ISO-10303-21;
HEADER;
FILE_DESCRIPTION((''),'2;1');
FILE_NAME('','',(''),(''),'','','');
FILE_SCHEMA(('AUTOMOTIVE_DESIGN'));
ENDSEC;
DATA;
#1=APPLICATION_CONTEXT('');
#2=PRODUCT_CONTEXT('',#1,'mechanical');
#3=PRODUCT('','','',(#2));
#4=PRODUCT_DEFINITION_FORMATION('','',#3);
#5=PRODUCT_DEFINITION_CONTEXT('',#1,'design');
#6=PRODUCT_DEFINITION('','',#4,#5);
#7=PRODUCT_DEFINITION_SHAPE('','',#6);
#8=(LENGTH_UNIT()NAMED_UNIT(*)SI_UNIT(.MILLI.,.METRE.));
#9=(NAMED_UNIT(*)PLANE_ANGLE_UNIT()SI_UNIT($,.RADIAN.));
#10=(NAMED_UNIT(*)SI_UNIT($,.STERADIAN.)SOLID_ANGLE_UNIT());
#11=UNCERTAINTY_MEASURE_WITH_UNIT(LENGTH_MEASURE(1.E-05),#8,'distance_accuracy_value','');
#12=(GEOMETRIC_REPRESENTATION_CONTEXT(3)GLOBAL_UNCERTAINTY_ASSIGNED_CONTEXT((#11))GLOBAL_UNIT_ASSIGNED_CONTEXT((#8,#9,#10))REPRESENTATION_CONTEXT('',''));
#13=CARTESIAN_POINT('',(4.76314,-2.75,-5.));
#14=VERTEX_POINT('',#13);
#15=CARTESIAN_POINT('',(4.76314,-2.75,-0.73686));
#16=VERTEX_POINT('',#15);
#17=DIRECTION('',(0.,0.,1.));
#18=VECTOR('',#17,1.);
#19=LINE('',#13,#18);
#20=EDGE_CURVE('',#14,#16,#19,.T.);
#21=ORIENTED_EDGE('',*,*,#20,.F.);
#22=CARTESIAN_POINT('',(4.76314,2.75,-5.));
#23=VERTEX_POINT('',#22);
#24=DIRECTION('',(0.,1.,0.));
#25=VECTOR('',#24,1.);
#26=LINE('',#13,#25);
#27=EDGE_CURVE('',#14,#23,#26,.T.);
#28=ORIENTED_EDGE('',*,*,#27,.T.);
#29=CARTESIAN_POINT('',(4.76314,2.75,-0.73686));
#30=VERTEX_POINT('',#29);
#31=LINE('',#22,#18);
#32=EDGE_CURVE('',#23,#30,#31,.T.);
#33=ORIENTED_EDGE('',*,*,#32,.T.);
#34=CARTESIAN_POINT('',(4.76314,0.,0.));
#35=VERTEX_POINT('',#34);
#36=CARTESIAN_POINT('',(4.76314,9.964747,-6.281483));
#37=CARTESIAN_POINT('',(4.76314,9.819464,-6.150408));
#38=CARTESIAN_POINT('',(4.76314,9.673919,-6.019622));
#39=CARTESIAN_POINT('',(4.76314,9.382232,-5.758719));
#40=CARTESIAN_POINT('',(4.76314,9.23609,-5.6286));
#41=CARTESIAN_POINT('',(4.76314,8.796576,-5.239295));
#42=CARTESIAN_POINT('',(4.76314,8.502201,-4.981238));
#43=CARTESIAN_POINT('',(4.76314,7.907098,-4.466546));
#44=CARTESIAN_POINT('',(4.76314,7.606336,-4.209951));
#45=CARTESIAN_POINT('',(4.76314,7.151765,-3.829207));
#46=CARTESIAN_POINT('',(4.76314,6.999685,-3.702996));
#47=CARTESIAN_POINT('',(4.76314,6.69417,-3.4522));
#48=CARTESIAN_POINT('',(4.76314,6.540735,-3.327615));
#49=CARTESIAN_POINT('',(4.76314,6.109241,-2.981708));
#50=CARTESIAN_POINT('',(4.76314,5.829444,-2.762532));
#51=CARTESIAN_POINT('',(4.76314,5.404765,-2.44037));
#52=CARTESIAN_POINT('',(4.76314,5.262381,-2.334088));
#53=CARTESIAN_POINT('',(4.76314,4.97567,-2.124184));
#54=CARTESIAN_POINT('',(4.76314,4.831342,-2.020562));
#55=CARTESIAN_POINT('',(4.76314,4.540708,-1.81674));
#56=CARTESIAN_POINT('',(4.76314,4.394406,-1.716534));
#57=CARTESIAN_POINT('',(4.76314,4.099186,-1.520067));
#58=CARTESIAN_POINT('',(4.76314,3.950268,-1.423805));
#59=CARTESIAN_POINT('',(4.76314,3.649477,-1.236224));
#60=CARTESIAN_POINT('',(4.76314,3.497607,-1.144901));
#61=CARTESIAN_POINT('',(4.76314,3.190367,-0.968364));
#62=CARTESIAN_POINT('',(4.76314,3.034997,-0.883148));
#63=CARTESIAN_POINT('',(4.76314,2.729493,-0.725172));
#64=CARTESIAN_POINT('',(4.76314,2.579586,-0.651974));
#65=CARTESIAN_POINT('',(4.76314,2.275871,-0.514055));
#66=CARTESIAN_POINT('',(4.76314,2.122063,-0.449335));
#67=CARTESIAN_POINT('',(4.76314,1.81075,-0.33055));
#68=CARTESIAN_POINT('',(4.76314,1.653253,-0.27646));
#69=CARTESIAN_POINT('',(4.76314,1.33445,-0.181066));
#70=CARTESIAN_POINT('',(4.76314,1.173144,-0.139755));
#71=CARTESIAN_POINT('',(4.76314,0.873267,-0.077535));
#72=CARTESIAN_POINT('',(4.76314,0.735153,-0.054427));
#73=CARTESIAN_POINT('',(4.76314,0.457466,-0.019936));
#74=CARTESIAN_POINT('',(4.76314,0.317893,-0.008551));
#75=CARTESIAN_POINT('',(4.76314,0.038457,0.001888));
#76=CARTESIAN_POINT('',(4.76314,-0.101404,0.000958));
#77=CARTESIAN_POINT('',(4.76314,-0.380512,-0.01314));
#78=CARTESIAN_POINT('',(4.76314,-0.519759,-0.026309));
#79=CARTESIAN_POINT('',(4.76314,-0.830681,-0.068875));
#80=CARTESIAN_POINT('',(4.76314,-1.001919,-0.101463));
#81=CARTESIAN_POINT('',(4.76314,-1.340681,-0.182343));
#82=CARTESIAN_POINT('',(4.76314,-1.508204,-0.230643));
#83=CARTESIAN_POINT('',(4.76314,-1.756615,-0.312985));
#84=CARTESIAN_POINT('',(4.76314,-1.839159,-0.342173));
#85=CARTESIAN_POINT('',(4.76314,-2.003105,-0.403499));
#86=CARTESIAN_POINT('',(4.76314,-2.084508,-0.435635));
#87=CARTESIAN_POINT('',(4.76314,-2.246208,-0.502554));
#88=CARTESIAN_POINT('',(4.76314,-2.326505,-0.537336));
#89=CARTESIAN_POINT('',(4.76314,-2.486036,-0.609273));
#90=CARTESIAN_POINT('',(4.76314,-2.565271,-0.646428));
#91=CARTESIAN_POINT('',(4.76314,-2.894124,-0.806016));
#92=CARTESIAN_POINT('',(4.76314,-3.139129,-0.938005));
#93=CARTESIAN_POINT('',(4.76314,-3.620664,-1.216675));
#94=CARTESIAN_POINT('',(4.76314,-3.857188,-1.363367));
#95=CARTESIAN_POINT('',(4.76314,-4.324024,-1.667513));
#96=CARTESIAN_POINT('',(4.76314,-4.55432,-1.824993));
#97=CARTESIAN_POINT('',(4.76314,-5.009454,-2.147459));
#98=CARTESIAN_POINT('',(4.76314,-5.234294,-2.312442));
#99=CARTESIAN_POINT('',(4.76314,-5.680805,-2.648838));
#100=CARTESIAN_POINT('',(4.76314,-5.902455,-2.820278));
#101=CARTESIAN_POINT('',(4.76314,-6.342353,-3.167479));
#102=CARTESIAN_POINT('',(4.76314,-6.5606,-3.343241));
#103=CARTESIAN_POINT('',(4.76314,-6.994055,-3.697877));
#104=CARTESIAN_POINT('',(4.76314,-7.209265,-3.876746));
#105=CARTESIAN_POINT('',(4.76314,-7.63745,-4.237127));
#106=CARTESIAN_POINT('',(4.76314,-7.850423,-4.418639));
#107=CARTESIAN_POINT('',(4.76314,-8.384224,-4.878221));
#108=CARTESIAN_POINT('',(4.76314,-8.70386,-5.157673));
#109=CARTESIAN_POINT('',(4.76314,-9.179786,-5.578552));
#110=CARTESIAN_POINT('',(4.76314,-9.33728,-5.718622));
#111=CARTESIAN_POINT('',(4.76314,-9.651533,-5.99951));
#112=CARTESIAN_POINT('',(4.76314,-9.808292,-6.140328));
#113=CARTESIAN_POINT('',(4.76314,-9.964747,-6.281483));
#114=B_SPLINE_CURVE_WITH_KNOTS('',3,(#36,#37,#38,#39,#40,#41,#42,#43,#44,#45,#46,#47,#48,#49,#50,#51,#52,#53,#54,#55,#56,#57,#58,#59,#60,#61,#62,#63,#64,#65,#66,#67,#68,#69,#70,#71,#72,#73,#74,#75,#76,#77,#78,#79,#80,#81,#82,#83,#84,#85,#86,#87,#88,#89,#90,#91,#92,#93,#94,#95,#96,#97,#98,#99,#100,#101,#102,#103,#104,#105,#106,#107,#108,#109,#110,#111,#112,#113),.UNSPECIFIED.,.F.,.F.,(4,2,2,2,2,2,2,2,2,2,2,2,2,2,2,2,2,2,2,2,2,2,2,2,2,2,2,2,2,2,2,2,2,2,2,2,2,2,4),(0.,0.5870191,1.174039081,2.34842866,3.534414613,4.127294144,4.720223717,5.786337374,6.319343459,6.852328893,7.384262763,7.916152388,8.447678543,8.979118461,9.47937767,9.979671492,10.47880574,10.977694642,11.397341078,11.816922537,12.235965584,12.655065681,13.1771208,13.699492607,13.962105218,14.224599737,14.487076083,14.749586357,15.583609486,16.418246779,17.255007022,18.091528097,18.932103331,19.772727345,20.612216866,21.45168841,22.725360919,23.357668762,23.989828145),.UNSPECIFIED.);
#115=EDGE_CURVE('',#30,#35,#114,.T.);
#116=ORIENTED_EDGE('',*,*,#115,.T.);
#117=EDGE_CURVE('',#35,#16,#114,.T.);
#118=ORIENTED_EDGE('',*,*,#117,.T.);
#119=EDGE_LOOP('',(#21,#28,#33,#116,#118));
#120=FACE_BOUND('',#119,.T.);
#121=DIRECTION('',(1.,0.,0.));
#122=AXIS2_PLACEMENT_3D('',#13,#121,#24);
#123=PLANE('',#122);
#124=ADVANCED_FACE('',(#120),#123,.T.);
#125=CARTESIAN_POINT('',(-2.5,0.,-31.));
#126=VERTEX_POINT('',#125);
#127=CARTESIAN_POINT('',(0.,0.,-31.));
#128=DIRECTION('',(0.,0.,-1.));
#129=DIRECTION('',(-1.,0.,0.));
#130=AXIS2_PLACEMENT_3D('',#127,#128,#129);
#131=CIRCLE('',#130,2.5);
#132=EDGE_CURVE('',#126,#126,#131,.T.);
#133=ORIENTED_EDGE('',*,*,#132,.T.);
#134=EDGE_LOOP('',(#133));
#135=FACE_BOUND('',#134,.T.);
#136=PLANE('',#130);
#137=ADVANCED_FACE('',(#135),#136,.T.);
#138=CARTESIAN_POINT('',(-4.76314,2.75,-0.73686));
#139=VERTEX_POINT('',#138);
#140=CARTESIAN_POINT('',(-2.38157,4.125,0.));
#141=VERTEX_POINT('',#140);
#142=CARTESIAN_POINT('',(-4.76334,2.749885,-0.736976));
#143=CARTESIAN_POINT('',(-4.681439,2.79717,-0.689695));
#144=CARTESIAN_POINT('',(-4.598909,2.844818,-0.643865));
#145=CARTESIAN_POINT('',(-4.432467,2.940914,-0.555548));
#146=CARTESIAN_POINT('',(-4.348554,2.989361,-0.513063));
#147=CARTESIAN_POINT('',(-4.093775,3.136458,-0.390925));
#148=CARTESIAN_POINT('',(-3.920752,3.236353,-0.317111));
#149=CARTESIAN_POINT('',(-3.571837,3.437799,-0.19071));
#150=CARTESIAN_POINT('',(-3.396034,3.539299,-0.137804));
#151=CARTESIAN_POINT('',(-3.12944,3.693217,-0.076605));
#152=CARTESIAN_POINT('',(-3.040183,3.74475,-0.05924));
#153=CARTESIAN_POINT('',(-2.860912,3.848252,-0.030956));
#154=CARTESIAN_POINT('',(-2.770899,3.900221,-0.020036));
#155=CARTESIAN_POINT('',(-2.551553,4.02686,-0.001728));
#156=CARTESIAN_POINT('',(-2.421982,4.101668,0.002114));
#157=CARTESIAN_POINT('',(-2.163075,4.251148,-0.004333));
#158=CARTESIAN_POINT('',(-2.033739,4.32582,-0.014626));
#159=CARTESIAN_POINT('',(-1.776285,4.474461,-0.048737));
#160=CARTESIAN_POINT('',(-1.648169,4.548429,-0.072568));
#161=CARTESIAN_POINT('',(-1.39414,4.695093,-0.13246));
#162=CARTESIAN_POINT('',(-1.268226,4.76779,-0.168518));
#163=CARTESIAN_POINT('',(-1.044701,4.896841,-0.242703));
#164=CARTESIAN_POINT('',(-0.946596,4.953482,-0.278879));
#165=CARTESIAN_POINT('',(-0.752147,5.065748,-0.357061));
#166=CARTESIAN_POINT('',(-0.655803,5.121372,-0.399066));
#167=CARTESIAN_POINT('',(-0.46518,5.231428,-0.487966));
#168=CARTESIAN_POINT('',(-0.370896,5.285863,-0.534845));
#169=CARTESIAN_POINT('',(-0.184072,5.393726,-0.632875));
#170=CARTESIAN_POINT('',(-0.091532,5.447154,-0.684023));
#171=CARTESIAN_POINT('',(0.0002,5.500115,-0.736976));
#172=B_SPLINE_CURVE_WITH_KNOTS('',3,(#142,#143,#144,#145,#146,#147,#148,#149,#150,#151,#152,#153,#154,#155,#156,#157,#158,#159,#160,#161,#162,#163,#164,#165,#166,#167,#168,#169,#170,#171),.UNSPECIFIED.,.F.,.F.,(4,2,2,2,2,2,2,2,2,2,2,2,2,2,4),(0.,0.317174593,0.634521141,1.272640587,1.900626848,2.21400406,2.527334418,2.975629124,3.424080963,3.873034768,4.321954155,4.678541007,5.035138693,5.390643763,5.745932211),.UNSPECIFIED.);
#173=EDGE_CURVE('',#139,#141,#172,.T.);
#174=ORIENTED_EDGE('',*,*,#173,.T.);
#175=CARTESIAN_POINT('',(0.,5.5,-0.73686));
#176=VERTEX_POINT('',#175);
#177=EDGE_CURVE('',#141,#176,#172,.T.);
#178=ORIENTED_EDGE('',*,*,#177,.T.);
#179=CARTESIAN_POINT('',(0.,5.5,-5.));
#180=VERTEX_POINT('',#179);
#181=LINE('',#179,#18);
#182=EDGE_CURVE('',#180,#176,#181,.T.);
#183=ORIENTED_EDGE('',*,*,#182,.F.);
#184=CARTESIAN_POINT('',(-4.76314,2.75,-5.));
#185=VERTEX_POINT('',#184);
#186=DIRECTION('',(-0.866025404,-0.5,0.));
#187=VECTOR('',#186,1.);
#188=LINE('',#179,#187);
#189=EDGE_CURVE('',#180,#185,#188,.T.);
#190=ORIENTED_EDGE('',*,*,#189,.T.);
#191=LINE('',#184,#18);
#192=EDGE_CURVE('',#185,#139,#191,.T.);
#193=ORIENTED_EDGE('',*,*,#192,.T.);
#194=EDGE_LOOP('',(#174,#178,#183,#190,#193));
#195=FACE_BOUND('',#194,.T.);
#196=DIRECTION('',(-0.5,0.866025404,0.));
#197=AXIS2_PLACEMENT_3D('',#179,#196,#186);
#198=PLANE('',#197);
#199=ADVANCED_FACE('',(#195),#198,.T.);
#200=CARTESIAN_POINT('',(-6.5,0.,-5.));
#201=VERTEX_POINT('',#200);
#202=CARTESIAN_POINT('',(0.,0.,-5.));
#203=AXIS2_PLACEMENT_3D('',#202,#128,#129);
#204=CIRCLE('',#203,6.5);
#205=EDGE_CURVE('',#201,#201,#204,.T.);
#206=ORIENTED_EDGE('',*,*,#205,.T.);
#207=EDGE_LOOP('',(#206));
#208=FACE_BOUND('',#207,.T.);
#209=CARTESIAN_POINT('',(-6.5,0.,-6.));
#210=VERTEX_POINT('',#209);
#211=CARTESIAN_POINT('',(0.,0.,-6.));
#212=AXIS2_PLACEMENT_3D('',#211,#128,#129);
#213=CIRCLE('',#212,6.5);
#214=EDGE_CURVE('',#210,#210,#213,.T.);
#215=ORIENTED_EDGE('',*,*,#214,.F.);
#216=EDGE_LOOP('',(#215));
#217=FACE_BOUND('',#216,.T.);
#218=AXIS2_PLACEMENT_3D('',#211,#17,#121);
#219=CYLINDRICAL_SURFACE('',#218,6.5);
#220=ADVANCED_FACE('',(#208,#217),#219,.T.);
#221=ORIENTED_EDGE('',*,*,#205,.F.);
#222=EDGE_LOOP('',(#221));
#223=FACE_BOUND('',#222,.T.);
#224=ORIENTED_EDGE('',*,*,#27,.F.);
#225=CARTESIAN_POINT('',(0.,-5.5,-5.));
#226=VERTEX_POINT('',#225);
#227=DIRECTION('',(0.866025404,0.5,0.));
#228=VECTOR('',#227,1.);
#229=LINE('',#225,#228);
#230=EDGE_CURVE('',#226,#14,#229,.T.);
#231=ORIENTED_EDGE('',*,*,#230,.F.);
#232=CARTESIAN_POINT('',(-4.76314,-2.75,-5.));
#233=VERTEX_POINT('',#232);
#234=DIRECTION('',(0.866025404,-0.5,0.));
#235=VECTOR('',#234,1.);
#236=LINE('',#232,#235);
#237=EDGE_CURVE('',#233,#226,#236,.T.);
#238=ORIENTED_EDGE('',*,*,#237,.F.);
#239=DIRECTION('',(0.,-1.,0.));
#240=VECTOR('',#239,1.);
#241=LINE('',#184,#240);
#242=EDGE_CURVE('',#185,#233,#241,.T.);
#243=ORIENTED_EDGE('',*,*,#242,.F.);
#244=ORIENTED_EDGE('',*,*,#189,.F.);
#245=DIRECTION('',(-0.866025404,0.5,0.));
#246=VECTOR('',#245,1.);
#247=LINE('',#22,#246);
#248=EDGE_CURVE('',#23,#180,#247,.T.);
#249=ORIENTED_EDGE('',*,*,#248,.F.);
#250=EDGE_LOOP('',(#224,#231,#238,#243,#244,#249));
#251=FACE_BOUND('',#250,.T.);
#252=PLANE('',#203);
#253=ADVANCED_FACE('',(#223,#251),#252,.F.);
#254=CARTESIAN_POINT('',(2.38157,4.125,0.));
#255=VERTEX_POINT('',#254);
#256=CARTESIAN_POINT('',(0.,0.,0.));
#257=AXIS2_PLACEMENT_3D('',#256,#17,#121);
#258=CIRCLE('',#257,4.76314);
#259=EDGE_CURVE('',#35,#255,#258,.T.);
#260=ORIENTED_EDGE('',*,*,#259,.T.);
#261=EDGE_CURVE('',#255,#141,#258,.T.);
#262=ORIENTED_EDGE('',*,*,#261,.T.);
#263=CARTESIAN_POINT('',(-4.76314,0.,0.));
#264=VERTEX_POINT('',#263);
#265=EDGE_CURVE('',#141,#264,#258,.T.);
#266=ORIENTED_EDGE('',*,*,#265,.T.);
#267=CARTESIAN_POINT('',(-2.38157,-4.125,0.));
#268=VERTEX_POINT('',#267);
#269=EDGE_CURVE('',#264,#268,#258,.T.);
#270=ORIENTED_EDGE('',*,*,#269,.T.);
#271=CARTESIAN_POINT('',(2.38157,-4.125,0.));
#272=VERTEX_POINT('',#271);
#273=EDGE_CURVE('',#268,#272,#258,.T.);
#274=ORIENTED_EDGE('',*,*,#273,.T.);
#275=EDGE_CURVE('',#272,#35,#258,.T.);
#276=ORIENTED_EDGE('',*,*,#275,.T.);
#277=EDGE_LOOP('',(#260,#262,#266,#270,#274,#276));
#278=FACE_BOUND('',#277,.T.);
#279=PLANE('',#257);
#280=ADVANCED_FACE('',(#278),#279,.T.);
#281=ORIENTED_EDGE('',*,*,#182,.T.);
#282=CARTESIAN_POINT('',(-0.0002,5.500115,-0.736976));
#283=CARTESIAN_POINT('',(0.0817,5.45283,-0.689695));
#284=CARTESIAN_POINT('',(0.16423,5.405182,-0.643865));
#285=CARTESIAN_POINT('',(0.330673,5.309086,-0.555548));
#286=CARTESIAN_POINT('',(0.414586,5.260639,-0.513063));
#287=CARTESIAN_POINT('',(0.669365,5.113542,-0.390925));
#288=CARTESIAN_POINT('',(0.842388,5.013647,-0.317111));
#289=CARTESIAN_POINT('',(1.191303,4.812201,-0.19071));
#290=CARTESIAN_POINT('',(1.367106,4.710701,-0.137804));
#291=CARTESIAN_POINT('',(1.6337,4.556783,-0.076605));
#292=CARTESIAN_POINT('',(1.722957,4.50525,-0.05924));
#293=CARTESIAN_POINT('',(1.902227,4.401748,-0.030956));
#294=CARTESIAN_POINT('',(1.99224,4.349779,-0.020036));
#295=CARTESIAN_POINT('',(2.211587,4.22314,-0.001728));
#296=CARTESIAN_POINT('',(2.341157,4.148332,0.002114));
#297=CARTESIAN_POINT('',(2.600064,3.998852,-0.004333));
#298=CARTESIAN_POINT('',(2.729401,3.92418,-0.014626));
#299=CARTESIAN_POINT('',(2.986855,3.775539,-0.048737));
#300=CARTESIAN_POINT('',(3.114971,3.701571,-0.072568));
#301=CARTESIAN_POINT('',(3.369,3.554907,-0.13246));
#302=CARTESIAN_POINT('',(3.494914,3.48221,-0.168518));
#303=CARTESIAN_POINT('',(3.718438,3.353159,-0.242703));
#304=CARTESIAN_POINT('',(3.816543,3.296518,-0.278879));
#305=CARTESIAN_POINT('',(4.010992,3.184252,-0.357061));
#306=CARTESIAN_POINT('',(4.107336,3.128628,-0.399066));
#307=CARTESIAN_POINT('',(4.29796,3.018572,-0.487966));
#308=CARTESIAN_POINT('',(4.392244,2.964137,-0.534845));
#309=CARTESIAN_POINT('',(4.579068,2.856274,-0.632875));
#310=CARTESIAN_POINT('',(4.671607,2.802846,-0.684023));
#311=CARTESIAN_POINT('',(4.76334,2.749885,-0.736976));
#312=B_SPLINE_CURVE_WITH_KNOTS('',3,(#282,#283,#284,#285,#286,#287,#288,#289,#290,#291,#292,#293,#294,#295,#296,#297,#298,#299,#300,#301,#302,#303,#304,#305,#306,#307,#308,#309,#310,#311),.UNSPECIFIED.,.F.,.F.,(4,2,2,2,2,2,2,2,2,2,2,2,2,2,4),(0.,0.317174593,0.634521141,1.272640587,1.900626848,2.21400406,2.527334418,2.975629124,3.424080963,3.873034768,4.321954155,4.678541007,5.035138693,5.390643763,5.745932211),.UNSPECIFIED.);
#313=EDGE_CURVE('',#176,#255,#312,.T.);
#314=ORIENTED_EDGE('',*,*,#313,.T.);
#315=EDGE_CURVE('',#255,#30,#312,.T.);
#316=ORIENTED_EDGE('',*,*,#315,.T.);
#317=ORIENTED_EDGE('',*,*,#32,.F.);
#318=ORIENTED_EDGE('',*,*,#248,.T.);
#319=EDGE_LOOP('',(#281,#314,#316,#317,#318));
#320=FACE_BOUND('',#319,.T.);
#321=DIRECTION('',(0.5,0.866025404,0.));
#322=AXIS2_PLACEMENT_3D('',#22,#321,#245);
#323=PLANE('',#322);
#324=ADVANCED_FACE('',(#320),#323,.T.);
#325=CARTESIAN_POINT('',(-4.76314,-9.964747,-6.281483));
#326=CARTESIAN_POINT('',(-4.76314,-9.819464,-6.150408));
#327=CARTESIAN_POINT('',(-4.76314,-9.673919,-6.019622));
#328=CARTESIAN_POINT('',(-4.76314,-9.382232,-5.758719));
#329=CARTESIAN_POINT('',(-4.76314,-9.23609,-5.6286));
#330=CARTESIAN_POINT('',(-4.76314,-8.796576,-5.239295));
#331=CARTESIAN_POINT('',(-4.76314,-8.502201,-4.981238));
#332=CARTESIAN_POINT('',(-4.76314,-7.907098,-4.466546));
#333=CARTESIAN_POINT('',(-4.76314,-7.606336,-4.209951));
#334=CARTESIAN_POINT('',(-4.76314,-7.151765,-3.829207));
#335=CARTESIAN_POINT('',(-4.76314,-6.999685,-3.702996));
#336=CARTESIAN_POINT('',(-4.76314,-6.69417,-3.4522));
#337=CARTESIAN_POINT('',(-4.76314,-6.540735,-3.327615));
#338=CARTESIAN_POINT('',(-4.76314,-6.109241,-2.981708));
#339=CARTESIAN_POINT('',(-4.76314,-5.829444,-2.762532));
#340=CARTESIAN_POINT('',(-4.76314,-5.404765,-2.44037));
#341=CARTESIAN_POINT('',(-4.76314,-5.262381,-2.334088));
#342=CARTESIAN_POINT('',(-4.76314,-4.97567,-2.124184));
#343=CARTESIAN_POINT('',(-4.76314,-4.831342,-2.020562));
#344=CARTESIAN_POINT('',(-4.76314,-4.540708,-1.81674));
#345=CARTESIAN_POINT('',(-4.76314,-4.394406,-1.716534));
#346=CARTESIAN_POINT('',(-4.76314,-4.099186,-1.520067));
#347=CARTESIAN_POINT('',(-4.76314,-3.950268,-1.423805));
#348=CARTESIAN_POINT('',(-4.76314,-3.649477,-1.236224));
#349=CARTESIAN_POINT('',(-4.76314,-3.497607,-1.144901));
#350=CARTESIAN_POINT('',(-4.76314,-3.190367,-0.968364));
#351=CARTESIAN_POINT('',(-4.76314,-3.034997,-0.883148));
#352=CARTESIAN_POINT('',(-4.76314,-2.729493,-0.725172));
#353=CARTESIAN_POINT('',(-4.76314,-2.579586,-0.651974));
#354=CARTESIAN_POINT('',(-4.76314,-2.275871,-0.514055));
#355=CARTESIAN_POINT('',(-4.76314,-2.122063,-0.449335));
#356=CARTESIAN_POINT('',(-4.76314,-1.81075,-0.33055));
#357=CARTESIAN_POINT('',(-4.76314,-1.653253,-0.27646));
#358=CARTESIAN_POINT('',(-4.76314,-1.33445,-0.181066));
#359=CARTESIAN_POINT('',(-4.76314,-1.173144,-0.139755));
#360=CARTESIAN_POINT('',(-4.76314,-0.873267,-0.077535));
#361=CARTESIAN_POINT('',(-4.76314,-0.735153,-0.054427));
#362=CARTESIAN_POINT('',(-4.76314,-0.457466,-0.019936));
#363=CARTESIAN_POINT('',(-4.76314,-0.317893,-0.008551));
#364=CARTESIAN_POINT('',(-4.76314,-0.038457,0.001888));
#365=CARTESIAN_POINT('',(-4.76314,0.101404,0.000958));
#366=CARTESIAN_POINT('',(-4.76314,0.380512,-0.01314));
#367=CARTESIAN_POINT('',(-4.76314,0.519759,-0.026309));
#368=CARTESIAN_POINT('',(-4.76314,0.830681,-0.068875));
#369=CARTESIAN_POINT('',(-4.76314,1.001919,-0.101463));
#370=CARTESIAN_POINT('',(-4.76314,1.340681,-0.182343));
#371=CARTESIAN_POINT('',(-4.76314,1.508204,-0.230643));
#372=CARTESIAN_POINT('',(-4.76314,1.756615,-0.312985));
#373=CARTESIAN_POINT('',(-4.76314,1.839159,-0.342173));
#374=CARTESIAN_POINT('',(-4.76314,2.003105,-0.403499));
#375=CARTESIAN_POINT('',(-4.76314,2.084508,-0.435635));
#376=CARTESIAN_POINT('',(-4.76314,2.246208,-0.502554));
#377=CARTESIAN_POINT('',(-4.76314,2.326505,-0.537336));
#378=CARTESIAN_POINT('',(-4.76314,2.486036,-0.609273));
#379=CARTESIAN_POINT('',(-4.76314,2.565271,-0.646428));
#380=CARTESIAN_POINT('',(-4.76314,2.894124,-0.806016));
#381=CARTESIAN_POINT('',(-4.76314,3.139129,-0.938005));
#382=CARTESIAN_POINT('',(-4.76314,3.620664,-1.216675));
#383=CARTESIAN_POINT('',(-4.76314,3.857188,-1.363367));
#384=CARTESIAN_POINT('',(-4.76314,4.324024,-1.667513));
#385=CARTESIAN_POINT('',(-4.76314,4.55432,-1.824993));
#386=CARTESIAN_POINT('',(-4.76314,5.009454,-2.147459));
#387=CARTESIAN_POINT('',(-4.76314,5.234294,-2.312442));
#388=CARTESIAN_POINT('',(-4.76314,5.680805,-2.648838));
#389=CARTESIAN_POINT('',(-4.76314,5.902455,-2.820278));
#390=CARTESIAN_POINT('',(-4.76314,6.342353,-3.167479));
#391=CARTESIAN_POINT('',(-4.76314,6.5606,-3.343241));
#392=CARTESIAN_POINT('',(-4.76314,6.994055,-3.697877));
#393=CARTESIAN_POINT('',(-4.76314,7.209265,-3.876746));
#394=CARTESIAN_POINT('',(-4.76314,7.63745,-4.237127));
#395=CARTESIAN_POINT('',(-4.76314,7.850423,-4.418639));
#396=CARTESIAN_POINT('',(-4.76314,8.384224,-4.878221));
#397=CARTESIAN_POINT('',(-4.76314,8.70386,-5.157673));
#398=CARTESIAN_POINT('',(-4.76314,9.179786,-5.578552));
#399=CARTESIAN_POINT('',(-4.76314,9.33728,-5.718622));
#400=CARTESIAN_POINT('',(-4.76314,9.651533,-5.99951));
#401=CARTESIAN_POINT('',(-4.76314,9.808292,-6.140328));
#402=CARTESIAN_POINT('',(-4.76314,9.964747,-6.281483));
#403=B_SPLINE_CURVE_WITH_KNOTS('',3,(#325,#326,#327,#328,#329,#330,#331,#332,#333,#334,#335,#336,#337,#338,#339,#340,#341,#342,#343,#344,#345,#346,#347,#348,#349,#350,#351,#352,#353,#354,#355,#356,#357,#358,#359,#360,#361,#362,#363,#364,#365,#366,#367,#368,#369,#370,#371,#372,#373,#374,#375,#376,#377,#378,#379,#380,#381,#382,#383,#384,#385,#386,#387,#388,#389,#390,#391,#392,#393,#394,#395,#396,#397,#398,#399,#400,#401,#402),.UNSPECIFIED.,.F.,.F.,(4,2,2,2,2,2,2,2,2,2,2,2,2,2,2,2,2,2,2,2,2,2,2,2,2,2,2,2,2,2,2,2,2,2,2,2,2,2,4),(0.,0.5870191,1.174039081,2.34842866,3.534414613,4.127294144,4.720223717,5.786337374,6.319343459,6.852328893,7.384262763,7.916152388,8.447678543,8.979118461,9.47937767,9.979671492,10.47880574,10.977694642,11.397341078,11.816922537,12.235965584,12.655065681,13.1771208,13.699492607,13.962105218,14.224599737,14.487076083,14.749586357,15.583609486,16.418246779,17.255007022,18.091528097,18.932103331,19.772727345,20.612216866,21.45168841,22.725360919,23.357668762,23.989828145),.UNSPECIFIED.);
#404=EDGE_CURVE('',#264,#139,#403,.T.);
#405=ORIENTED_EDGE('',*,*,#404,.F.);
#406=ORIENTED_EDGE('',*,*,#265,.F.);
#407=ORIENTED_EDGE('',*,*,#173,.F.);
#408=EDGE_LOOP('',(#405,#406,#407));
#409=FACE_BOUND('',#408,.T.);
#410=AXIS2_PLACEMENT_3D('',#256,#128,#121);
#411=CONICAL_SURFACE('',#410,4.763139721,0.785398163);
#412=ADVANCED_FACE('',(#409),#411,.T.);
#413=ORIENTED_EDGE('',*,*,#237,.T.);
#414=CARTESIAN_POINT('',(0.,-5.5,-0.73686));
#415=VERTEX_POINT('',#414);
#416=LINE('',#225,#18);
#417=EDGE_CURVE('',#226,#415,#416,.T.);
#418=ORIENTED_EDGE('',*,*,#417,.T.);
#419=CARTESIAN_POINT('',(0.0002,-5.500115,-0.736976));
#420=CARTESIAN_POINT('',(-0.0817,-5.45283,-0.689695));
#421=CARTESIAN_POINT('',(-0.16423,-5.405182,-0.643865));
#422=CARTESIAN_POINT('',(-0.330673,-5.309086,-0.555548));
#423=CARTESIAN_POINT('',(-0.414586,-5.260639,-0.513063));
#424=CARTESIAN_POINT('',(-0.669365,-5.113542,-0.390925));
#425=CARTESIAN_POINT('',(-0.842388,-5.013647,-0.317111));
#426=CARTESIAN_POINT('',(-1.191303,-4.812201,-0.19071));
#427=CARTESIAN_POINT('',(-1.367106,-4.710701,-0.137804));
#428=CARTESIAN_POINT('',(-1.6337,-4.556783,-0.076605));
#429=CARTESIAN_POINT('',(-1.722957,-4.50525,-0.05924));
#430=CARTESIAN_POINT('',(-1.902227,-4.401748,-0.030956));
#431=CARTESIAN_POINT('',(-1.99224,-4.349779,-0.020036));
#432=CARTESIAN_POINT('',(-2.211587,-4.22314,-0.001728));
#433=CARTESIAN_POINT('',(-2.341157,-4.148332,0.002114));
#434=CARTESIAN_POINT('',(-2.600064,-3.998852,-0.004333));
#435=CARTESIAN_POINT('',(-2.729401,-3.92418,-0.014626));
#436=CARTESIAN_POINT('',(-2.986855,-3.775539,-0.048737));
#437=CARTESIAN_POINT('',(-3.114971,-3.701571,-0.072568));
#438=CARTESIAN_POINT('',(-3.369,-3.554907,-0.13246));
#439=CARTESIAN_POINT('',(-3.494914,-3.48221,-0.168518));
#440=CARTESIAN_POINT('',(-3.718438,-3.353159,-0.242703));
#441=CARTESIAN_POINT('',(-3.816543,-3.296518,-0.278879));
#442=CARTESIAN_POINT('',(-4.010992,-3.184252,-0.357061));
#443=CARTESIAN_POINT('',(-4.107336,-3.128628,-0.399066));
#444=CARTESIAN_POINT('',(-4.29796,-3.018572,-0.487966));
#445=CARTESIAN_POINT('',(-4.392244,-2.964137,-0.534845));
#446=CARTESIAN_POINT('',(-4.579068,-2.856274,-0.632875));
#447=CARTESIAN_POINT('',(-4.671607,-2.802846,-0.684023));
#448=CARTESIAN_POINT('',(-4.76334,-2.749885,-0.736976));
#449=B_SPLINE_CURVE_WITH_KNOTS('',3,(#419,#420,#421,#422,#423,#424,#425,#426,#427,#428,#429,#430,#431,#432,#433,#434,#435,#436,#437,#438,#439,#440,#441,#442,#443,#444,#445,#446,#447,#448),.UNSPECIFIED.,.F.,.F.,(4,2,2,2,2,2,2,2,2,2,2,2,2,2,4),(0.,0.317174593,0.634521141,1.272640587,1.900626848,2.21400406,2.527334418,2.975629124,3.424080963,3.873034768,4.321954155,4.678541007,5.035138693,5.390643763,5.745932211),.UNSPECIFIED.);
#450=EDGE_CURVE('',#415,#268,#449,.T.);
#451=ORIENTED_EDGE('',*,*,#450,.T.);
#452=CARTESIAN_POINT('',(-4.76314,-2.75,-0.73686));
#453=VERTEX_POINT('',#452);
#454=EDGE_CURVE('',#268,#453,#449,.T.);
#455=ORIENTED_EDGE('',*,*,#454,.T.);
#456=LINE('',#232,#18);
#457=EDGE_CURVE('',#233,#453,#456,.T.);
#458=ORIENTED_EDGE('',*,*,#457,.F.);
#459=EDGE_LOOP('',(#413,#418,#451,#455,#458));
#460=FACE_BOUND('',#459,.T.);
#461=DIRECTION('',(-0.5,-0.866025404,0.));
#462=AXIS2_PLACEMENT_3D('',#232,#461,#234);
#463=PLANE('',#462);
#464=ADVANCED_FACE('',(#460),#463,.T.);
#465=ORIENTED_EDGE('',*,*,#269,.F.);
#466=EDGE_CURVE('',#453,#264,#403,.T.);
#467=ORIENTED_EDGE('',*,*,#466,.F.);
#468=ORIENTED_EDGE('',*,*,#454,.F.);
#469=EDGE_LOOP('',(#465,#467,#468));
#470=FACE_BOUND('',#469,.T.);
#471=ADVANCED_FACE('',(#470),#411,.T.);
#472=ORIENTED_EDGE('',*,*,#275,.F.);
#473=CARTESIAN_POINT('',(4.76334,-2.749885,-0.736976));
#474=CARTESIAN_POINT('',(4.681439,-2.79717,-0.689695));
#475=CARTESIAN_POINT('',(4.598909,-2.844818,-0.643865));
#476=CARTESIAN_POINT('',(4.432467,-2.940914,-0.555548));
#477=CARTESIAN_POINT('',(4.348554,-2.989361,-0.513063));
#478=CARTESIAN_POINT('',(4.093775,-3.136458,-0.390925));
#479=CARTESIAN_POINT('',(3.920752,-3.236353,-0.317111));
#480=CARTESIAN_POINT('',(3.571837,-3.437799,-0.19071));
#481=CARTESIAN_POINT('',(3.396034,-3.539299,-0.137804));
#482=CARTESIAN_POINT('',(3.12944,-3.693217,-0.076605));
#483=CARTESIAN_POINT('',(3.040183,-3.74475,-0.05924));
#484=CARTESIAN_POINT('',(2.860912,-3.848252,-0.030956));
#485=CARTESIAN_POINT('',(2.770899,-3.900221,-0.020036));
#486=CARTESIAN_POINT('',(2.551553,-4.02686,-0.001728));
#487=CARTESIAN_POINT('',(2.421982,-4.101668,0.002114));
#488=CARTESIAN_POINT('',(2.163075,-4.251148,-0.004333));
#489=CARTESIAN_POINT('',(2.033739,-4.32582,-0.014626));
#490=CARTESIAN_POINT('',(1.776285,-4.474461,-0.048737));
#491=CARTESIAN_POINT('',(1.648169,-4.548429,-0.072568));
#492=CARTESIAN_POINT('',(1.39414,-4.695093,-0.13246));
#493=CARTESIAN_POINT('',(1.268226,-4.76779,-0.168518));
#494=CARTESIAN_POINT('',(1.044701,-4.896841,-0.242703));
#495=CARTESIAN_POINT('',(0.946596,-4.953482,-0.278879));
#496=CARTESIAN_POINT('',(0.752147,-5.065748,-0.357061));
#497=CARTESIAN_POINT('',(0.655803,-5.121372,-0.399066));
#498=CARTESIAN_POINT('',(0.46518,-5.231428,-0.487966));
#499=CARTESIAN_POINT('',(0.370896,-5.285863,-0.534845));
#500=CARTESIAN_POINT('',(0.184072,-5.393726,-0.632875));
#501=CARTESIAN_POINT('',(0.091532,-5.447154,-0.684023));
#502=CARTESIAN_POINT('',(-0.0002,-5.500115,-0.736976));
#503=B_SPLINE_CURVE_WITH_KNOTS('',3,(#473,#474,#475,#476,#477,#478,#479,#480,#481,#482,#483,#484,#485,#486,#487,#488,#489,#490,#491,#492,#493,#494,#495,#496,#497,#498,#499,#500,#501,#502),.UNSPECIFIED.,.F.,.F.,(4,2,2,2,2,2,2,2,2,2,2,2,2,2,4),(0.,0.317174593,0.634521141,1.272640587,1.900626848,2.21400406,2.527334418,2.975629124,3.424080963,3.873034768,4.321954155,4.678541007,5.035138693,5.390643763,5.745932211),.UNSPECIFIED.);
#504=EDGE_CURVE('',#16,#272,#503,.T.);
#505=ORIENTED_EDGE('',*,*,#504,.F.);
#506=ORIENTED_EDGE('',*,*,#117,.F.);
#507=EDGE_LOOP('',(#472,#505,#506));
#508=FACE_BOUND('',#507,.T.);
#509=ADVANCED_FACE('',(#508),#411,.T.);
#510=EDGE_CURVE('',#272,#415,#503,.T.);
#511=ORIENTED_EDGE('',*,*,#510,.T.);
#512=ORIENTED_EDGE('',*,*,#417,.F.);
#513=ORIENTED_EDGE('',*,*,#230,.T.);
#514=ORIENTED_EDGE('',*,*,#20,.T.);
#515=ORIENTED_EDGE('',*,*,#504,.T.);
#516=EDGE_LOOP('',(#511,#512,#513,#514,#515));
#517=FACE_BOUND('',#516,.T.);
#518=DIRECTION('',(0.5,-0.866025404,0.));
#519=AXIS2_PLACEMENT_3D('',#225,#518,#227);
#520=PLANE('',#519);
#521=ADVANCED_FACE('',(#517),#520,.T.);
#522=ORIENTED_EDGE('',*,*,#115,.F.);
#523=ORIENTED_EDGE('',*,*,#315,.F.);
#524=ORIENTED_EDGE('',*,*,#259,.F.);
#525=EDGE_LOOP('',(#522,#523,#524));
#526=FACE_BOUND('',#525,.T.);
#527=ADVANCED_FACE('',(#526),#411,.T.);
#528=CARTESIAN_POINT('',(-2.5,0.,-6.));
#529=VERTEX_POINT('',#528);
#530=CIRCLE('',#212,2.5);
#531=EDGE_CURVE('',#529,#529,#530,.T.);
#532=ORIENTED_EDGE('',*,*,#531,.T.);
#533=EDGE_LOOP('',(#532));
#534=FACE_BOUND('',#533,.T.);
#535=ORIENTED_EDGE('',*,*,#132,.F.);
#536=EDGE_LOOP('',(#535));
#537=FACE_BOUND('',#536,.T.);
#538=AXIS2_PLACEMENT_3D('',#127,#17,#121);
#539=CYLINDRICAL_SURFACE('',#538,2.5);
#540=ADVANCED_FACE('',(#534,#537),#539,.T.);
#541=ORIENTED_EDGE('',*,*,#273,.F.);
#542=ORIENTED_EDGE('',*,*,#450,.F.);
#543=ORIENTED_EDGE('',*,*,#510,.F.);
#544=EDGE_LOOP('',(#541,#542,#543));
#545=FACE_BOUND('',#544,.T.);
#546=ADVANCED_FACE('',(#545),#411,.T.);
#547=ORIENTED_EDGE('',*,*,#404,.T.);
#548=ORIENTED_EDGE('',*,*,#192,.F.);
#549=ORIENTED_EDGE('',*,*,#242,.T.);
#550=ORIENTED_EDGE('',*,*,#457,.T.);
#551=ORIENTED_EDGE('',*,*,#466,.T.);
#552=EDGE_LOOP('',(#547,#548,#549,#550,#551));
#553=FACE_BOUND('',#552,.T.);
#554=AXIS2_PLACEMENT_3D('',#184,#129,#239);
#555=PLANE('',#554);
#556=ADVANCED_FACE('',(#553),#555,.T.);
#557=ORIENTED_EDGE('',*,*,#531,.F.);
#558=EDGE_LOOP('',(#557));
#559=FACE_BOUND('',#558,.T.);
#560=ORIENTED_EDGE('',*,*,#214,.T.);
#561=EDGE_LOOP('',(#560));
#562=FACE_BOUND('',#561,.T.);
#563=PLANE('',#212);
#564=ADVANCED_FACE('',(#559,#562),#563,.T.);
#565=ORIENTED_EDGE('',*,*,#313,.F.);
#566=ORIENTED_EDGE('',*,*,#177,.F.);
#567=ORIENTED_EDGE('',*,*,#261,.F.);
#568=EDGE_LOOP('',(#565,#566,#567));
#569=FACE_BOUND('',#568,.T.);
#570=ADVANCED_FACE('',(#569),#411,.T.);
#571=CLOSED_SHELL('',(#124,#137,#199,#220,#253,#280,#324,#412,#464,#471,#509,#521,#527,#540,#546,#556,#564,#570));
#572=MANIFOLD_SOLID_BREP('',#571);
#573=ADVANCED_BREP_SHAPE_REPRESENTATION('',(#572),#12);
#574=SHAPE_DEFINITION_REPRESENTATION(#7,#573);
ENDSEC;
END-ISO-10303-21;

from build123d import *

# Parameters (mm, degrees)
BOSS_EXTRUDE1_DEPTH = 5
SKETCH2_OUTSIDE_W   = 24.604
SKETCH2_OUTSIDE_H   = 26.078
SKETCH2_OUTSIDE_R   = 4.763139721
CUT_EXTRUDE2_DEPTH  = 5
CUT_EXTRUDE2_TAPER  = 45
SKETCH5_R           = 6.5
BOSS_EXTRUDE2_DEPTH = 1
SKETCH6_R           = 2.5
BOSS_EXTRUDE3_DEPTH = 25


with BuildPart() as part:
    # Sketch1 → Boss-Extrude1 (new body)
    with BuildSketch(Plane.XY):
        Polygon((0, -5.5), (4.763139721, -2.75), (4.763139721, 2.75), (0, 5.5), (-4.763139721, 2.75), (-4.763139721, -2.75), align=None)
    extrude(amount=-BOSS_EXTRUDE1_DEPTH)

    # Sketch2 outside → Cut-Extrude2 (cut)
    with BuildSketch(Plane.XY):
        Rectangle(SKETCH2_OUTSIDE_W, SKETCH2_OUTSIDE_H)
        Circle(SKETCH2_OUTSIDE_R, mode=Mode.SUBTRACT)
    extrude(amount=-CUT_EXTRUDE2_DEPTH, taper=CUT_EXTRUDE2_TAPER, mode=Mode.SUBTRACT)

    # Sketch5 → Boss-Extrude2 (add)
    with BuildSketch(Plane(origin=(0, 0, -5), x_dir=(-1, 0, 0), z_dir=(0, 0, -1))):
        Circle(SKETCH5_R)
    extrude(amount=BOSS_EXTRUDE2_DEPTH)

    # Sketch6 → Boss-Extrude3 (add)
    with BuildSketch(Plane(origin=(0, 0, -6), x_dir=(-1, 0, 0), z_dir=(0, 0, -1))):
        Circle(SKETCH6_R)
    extrude(amount=BOSS_EXTRUDE3_DEPTH)


solid = part.part
